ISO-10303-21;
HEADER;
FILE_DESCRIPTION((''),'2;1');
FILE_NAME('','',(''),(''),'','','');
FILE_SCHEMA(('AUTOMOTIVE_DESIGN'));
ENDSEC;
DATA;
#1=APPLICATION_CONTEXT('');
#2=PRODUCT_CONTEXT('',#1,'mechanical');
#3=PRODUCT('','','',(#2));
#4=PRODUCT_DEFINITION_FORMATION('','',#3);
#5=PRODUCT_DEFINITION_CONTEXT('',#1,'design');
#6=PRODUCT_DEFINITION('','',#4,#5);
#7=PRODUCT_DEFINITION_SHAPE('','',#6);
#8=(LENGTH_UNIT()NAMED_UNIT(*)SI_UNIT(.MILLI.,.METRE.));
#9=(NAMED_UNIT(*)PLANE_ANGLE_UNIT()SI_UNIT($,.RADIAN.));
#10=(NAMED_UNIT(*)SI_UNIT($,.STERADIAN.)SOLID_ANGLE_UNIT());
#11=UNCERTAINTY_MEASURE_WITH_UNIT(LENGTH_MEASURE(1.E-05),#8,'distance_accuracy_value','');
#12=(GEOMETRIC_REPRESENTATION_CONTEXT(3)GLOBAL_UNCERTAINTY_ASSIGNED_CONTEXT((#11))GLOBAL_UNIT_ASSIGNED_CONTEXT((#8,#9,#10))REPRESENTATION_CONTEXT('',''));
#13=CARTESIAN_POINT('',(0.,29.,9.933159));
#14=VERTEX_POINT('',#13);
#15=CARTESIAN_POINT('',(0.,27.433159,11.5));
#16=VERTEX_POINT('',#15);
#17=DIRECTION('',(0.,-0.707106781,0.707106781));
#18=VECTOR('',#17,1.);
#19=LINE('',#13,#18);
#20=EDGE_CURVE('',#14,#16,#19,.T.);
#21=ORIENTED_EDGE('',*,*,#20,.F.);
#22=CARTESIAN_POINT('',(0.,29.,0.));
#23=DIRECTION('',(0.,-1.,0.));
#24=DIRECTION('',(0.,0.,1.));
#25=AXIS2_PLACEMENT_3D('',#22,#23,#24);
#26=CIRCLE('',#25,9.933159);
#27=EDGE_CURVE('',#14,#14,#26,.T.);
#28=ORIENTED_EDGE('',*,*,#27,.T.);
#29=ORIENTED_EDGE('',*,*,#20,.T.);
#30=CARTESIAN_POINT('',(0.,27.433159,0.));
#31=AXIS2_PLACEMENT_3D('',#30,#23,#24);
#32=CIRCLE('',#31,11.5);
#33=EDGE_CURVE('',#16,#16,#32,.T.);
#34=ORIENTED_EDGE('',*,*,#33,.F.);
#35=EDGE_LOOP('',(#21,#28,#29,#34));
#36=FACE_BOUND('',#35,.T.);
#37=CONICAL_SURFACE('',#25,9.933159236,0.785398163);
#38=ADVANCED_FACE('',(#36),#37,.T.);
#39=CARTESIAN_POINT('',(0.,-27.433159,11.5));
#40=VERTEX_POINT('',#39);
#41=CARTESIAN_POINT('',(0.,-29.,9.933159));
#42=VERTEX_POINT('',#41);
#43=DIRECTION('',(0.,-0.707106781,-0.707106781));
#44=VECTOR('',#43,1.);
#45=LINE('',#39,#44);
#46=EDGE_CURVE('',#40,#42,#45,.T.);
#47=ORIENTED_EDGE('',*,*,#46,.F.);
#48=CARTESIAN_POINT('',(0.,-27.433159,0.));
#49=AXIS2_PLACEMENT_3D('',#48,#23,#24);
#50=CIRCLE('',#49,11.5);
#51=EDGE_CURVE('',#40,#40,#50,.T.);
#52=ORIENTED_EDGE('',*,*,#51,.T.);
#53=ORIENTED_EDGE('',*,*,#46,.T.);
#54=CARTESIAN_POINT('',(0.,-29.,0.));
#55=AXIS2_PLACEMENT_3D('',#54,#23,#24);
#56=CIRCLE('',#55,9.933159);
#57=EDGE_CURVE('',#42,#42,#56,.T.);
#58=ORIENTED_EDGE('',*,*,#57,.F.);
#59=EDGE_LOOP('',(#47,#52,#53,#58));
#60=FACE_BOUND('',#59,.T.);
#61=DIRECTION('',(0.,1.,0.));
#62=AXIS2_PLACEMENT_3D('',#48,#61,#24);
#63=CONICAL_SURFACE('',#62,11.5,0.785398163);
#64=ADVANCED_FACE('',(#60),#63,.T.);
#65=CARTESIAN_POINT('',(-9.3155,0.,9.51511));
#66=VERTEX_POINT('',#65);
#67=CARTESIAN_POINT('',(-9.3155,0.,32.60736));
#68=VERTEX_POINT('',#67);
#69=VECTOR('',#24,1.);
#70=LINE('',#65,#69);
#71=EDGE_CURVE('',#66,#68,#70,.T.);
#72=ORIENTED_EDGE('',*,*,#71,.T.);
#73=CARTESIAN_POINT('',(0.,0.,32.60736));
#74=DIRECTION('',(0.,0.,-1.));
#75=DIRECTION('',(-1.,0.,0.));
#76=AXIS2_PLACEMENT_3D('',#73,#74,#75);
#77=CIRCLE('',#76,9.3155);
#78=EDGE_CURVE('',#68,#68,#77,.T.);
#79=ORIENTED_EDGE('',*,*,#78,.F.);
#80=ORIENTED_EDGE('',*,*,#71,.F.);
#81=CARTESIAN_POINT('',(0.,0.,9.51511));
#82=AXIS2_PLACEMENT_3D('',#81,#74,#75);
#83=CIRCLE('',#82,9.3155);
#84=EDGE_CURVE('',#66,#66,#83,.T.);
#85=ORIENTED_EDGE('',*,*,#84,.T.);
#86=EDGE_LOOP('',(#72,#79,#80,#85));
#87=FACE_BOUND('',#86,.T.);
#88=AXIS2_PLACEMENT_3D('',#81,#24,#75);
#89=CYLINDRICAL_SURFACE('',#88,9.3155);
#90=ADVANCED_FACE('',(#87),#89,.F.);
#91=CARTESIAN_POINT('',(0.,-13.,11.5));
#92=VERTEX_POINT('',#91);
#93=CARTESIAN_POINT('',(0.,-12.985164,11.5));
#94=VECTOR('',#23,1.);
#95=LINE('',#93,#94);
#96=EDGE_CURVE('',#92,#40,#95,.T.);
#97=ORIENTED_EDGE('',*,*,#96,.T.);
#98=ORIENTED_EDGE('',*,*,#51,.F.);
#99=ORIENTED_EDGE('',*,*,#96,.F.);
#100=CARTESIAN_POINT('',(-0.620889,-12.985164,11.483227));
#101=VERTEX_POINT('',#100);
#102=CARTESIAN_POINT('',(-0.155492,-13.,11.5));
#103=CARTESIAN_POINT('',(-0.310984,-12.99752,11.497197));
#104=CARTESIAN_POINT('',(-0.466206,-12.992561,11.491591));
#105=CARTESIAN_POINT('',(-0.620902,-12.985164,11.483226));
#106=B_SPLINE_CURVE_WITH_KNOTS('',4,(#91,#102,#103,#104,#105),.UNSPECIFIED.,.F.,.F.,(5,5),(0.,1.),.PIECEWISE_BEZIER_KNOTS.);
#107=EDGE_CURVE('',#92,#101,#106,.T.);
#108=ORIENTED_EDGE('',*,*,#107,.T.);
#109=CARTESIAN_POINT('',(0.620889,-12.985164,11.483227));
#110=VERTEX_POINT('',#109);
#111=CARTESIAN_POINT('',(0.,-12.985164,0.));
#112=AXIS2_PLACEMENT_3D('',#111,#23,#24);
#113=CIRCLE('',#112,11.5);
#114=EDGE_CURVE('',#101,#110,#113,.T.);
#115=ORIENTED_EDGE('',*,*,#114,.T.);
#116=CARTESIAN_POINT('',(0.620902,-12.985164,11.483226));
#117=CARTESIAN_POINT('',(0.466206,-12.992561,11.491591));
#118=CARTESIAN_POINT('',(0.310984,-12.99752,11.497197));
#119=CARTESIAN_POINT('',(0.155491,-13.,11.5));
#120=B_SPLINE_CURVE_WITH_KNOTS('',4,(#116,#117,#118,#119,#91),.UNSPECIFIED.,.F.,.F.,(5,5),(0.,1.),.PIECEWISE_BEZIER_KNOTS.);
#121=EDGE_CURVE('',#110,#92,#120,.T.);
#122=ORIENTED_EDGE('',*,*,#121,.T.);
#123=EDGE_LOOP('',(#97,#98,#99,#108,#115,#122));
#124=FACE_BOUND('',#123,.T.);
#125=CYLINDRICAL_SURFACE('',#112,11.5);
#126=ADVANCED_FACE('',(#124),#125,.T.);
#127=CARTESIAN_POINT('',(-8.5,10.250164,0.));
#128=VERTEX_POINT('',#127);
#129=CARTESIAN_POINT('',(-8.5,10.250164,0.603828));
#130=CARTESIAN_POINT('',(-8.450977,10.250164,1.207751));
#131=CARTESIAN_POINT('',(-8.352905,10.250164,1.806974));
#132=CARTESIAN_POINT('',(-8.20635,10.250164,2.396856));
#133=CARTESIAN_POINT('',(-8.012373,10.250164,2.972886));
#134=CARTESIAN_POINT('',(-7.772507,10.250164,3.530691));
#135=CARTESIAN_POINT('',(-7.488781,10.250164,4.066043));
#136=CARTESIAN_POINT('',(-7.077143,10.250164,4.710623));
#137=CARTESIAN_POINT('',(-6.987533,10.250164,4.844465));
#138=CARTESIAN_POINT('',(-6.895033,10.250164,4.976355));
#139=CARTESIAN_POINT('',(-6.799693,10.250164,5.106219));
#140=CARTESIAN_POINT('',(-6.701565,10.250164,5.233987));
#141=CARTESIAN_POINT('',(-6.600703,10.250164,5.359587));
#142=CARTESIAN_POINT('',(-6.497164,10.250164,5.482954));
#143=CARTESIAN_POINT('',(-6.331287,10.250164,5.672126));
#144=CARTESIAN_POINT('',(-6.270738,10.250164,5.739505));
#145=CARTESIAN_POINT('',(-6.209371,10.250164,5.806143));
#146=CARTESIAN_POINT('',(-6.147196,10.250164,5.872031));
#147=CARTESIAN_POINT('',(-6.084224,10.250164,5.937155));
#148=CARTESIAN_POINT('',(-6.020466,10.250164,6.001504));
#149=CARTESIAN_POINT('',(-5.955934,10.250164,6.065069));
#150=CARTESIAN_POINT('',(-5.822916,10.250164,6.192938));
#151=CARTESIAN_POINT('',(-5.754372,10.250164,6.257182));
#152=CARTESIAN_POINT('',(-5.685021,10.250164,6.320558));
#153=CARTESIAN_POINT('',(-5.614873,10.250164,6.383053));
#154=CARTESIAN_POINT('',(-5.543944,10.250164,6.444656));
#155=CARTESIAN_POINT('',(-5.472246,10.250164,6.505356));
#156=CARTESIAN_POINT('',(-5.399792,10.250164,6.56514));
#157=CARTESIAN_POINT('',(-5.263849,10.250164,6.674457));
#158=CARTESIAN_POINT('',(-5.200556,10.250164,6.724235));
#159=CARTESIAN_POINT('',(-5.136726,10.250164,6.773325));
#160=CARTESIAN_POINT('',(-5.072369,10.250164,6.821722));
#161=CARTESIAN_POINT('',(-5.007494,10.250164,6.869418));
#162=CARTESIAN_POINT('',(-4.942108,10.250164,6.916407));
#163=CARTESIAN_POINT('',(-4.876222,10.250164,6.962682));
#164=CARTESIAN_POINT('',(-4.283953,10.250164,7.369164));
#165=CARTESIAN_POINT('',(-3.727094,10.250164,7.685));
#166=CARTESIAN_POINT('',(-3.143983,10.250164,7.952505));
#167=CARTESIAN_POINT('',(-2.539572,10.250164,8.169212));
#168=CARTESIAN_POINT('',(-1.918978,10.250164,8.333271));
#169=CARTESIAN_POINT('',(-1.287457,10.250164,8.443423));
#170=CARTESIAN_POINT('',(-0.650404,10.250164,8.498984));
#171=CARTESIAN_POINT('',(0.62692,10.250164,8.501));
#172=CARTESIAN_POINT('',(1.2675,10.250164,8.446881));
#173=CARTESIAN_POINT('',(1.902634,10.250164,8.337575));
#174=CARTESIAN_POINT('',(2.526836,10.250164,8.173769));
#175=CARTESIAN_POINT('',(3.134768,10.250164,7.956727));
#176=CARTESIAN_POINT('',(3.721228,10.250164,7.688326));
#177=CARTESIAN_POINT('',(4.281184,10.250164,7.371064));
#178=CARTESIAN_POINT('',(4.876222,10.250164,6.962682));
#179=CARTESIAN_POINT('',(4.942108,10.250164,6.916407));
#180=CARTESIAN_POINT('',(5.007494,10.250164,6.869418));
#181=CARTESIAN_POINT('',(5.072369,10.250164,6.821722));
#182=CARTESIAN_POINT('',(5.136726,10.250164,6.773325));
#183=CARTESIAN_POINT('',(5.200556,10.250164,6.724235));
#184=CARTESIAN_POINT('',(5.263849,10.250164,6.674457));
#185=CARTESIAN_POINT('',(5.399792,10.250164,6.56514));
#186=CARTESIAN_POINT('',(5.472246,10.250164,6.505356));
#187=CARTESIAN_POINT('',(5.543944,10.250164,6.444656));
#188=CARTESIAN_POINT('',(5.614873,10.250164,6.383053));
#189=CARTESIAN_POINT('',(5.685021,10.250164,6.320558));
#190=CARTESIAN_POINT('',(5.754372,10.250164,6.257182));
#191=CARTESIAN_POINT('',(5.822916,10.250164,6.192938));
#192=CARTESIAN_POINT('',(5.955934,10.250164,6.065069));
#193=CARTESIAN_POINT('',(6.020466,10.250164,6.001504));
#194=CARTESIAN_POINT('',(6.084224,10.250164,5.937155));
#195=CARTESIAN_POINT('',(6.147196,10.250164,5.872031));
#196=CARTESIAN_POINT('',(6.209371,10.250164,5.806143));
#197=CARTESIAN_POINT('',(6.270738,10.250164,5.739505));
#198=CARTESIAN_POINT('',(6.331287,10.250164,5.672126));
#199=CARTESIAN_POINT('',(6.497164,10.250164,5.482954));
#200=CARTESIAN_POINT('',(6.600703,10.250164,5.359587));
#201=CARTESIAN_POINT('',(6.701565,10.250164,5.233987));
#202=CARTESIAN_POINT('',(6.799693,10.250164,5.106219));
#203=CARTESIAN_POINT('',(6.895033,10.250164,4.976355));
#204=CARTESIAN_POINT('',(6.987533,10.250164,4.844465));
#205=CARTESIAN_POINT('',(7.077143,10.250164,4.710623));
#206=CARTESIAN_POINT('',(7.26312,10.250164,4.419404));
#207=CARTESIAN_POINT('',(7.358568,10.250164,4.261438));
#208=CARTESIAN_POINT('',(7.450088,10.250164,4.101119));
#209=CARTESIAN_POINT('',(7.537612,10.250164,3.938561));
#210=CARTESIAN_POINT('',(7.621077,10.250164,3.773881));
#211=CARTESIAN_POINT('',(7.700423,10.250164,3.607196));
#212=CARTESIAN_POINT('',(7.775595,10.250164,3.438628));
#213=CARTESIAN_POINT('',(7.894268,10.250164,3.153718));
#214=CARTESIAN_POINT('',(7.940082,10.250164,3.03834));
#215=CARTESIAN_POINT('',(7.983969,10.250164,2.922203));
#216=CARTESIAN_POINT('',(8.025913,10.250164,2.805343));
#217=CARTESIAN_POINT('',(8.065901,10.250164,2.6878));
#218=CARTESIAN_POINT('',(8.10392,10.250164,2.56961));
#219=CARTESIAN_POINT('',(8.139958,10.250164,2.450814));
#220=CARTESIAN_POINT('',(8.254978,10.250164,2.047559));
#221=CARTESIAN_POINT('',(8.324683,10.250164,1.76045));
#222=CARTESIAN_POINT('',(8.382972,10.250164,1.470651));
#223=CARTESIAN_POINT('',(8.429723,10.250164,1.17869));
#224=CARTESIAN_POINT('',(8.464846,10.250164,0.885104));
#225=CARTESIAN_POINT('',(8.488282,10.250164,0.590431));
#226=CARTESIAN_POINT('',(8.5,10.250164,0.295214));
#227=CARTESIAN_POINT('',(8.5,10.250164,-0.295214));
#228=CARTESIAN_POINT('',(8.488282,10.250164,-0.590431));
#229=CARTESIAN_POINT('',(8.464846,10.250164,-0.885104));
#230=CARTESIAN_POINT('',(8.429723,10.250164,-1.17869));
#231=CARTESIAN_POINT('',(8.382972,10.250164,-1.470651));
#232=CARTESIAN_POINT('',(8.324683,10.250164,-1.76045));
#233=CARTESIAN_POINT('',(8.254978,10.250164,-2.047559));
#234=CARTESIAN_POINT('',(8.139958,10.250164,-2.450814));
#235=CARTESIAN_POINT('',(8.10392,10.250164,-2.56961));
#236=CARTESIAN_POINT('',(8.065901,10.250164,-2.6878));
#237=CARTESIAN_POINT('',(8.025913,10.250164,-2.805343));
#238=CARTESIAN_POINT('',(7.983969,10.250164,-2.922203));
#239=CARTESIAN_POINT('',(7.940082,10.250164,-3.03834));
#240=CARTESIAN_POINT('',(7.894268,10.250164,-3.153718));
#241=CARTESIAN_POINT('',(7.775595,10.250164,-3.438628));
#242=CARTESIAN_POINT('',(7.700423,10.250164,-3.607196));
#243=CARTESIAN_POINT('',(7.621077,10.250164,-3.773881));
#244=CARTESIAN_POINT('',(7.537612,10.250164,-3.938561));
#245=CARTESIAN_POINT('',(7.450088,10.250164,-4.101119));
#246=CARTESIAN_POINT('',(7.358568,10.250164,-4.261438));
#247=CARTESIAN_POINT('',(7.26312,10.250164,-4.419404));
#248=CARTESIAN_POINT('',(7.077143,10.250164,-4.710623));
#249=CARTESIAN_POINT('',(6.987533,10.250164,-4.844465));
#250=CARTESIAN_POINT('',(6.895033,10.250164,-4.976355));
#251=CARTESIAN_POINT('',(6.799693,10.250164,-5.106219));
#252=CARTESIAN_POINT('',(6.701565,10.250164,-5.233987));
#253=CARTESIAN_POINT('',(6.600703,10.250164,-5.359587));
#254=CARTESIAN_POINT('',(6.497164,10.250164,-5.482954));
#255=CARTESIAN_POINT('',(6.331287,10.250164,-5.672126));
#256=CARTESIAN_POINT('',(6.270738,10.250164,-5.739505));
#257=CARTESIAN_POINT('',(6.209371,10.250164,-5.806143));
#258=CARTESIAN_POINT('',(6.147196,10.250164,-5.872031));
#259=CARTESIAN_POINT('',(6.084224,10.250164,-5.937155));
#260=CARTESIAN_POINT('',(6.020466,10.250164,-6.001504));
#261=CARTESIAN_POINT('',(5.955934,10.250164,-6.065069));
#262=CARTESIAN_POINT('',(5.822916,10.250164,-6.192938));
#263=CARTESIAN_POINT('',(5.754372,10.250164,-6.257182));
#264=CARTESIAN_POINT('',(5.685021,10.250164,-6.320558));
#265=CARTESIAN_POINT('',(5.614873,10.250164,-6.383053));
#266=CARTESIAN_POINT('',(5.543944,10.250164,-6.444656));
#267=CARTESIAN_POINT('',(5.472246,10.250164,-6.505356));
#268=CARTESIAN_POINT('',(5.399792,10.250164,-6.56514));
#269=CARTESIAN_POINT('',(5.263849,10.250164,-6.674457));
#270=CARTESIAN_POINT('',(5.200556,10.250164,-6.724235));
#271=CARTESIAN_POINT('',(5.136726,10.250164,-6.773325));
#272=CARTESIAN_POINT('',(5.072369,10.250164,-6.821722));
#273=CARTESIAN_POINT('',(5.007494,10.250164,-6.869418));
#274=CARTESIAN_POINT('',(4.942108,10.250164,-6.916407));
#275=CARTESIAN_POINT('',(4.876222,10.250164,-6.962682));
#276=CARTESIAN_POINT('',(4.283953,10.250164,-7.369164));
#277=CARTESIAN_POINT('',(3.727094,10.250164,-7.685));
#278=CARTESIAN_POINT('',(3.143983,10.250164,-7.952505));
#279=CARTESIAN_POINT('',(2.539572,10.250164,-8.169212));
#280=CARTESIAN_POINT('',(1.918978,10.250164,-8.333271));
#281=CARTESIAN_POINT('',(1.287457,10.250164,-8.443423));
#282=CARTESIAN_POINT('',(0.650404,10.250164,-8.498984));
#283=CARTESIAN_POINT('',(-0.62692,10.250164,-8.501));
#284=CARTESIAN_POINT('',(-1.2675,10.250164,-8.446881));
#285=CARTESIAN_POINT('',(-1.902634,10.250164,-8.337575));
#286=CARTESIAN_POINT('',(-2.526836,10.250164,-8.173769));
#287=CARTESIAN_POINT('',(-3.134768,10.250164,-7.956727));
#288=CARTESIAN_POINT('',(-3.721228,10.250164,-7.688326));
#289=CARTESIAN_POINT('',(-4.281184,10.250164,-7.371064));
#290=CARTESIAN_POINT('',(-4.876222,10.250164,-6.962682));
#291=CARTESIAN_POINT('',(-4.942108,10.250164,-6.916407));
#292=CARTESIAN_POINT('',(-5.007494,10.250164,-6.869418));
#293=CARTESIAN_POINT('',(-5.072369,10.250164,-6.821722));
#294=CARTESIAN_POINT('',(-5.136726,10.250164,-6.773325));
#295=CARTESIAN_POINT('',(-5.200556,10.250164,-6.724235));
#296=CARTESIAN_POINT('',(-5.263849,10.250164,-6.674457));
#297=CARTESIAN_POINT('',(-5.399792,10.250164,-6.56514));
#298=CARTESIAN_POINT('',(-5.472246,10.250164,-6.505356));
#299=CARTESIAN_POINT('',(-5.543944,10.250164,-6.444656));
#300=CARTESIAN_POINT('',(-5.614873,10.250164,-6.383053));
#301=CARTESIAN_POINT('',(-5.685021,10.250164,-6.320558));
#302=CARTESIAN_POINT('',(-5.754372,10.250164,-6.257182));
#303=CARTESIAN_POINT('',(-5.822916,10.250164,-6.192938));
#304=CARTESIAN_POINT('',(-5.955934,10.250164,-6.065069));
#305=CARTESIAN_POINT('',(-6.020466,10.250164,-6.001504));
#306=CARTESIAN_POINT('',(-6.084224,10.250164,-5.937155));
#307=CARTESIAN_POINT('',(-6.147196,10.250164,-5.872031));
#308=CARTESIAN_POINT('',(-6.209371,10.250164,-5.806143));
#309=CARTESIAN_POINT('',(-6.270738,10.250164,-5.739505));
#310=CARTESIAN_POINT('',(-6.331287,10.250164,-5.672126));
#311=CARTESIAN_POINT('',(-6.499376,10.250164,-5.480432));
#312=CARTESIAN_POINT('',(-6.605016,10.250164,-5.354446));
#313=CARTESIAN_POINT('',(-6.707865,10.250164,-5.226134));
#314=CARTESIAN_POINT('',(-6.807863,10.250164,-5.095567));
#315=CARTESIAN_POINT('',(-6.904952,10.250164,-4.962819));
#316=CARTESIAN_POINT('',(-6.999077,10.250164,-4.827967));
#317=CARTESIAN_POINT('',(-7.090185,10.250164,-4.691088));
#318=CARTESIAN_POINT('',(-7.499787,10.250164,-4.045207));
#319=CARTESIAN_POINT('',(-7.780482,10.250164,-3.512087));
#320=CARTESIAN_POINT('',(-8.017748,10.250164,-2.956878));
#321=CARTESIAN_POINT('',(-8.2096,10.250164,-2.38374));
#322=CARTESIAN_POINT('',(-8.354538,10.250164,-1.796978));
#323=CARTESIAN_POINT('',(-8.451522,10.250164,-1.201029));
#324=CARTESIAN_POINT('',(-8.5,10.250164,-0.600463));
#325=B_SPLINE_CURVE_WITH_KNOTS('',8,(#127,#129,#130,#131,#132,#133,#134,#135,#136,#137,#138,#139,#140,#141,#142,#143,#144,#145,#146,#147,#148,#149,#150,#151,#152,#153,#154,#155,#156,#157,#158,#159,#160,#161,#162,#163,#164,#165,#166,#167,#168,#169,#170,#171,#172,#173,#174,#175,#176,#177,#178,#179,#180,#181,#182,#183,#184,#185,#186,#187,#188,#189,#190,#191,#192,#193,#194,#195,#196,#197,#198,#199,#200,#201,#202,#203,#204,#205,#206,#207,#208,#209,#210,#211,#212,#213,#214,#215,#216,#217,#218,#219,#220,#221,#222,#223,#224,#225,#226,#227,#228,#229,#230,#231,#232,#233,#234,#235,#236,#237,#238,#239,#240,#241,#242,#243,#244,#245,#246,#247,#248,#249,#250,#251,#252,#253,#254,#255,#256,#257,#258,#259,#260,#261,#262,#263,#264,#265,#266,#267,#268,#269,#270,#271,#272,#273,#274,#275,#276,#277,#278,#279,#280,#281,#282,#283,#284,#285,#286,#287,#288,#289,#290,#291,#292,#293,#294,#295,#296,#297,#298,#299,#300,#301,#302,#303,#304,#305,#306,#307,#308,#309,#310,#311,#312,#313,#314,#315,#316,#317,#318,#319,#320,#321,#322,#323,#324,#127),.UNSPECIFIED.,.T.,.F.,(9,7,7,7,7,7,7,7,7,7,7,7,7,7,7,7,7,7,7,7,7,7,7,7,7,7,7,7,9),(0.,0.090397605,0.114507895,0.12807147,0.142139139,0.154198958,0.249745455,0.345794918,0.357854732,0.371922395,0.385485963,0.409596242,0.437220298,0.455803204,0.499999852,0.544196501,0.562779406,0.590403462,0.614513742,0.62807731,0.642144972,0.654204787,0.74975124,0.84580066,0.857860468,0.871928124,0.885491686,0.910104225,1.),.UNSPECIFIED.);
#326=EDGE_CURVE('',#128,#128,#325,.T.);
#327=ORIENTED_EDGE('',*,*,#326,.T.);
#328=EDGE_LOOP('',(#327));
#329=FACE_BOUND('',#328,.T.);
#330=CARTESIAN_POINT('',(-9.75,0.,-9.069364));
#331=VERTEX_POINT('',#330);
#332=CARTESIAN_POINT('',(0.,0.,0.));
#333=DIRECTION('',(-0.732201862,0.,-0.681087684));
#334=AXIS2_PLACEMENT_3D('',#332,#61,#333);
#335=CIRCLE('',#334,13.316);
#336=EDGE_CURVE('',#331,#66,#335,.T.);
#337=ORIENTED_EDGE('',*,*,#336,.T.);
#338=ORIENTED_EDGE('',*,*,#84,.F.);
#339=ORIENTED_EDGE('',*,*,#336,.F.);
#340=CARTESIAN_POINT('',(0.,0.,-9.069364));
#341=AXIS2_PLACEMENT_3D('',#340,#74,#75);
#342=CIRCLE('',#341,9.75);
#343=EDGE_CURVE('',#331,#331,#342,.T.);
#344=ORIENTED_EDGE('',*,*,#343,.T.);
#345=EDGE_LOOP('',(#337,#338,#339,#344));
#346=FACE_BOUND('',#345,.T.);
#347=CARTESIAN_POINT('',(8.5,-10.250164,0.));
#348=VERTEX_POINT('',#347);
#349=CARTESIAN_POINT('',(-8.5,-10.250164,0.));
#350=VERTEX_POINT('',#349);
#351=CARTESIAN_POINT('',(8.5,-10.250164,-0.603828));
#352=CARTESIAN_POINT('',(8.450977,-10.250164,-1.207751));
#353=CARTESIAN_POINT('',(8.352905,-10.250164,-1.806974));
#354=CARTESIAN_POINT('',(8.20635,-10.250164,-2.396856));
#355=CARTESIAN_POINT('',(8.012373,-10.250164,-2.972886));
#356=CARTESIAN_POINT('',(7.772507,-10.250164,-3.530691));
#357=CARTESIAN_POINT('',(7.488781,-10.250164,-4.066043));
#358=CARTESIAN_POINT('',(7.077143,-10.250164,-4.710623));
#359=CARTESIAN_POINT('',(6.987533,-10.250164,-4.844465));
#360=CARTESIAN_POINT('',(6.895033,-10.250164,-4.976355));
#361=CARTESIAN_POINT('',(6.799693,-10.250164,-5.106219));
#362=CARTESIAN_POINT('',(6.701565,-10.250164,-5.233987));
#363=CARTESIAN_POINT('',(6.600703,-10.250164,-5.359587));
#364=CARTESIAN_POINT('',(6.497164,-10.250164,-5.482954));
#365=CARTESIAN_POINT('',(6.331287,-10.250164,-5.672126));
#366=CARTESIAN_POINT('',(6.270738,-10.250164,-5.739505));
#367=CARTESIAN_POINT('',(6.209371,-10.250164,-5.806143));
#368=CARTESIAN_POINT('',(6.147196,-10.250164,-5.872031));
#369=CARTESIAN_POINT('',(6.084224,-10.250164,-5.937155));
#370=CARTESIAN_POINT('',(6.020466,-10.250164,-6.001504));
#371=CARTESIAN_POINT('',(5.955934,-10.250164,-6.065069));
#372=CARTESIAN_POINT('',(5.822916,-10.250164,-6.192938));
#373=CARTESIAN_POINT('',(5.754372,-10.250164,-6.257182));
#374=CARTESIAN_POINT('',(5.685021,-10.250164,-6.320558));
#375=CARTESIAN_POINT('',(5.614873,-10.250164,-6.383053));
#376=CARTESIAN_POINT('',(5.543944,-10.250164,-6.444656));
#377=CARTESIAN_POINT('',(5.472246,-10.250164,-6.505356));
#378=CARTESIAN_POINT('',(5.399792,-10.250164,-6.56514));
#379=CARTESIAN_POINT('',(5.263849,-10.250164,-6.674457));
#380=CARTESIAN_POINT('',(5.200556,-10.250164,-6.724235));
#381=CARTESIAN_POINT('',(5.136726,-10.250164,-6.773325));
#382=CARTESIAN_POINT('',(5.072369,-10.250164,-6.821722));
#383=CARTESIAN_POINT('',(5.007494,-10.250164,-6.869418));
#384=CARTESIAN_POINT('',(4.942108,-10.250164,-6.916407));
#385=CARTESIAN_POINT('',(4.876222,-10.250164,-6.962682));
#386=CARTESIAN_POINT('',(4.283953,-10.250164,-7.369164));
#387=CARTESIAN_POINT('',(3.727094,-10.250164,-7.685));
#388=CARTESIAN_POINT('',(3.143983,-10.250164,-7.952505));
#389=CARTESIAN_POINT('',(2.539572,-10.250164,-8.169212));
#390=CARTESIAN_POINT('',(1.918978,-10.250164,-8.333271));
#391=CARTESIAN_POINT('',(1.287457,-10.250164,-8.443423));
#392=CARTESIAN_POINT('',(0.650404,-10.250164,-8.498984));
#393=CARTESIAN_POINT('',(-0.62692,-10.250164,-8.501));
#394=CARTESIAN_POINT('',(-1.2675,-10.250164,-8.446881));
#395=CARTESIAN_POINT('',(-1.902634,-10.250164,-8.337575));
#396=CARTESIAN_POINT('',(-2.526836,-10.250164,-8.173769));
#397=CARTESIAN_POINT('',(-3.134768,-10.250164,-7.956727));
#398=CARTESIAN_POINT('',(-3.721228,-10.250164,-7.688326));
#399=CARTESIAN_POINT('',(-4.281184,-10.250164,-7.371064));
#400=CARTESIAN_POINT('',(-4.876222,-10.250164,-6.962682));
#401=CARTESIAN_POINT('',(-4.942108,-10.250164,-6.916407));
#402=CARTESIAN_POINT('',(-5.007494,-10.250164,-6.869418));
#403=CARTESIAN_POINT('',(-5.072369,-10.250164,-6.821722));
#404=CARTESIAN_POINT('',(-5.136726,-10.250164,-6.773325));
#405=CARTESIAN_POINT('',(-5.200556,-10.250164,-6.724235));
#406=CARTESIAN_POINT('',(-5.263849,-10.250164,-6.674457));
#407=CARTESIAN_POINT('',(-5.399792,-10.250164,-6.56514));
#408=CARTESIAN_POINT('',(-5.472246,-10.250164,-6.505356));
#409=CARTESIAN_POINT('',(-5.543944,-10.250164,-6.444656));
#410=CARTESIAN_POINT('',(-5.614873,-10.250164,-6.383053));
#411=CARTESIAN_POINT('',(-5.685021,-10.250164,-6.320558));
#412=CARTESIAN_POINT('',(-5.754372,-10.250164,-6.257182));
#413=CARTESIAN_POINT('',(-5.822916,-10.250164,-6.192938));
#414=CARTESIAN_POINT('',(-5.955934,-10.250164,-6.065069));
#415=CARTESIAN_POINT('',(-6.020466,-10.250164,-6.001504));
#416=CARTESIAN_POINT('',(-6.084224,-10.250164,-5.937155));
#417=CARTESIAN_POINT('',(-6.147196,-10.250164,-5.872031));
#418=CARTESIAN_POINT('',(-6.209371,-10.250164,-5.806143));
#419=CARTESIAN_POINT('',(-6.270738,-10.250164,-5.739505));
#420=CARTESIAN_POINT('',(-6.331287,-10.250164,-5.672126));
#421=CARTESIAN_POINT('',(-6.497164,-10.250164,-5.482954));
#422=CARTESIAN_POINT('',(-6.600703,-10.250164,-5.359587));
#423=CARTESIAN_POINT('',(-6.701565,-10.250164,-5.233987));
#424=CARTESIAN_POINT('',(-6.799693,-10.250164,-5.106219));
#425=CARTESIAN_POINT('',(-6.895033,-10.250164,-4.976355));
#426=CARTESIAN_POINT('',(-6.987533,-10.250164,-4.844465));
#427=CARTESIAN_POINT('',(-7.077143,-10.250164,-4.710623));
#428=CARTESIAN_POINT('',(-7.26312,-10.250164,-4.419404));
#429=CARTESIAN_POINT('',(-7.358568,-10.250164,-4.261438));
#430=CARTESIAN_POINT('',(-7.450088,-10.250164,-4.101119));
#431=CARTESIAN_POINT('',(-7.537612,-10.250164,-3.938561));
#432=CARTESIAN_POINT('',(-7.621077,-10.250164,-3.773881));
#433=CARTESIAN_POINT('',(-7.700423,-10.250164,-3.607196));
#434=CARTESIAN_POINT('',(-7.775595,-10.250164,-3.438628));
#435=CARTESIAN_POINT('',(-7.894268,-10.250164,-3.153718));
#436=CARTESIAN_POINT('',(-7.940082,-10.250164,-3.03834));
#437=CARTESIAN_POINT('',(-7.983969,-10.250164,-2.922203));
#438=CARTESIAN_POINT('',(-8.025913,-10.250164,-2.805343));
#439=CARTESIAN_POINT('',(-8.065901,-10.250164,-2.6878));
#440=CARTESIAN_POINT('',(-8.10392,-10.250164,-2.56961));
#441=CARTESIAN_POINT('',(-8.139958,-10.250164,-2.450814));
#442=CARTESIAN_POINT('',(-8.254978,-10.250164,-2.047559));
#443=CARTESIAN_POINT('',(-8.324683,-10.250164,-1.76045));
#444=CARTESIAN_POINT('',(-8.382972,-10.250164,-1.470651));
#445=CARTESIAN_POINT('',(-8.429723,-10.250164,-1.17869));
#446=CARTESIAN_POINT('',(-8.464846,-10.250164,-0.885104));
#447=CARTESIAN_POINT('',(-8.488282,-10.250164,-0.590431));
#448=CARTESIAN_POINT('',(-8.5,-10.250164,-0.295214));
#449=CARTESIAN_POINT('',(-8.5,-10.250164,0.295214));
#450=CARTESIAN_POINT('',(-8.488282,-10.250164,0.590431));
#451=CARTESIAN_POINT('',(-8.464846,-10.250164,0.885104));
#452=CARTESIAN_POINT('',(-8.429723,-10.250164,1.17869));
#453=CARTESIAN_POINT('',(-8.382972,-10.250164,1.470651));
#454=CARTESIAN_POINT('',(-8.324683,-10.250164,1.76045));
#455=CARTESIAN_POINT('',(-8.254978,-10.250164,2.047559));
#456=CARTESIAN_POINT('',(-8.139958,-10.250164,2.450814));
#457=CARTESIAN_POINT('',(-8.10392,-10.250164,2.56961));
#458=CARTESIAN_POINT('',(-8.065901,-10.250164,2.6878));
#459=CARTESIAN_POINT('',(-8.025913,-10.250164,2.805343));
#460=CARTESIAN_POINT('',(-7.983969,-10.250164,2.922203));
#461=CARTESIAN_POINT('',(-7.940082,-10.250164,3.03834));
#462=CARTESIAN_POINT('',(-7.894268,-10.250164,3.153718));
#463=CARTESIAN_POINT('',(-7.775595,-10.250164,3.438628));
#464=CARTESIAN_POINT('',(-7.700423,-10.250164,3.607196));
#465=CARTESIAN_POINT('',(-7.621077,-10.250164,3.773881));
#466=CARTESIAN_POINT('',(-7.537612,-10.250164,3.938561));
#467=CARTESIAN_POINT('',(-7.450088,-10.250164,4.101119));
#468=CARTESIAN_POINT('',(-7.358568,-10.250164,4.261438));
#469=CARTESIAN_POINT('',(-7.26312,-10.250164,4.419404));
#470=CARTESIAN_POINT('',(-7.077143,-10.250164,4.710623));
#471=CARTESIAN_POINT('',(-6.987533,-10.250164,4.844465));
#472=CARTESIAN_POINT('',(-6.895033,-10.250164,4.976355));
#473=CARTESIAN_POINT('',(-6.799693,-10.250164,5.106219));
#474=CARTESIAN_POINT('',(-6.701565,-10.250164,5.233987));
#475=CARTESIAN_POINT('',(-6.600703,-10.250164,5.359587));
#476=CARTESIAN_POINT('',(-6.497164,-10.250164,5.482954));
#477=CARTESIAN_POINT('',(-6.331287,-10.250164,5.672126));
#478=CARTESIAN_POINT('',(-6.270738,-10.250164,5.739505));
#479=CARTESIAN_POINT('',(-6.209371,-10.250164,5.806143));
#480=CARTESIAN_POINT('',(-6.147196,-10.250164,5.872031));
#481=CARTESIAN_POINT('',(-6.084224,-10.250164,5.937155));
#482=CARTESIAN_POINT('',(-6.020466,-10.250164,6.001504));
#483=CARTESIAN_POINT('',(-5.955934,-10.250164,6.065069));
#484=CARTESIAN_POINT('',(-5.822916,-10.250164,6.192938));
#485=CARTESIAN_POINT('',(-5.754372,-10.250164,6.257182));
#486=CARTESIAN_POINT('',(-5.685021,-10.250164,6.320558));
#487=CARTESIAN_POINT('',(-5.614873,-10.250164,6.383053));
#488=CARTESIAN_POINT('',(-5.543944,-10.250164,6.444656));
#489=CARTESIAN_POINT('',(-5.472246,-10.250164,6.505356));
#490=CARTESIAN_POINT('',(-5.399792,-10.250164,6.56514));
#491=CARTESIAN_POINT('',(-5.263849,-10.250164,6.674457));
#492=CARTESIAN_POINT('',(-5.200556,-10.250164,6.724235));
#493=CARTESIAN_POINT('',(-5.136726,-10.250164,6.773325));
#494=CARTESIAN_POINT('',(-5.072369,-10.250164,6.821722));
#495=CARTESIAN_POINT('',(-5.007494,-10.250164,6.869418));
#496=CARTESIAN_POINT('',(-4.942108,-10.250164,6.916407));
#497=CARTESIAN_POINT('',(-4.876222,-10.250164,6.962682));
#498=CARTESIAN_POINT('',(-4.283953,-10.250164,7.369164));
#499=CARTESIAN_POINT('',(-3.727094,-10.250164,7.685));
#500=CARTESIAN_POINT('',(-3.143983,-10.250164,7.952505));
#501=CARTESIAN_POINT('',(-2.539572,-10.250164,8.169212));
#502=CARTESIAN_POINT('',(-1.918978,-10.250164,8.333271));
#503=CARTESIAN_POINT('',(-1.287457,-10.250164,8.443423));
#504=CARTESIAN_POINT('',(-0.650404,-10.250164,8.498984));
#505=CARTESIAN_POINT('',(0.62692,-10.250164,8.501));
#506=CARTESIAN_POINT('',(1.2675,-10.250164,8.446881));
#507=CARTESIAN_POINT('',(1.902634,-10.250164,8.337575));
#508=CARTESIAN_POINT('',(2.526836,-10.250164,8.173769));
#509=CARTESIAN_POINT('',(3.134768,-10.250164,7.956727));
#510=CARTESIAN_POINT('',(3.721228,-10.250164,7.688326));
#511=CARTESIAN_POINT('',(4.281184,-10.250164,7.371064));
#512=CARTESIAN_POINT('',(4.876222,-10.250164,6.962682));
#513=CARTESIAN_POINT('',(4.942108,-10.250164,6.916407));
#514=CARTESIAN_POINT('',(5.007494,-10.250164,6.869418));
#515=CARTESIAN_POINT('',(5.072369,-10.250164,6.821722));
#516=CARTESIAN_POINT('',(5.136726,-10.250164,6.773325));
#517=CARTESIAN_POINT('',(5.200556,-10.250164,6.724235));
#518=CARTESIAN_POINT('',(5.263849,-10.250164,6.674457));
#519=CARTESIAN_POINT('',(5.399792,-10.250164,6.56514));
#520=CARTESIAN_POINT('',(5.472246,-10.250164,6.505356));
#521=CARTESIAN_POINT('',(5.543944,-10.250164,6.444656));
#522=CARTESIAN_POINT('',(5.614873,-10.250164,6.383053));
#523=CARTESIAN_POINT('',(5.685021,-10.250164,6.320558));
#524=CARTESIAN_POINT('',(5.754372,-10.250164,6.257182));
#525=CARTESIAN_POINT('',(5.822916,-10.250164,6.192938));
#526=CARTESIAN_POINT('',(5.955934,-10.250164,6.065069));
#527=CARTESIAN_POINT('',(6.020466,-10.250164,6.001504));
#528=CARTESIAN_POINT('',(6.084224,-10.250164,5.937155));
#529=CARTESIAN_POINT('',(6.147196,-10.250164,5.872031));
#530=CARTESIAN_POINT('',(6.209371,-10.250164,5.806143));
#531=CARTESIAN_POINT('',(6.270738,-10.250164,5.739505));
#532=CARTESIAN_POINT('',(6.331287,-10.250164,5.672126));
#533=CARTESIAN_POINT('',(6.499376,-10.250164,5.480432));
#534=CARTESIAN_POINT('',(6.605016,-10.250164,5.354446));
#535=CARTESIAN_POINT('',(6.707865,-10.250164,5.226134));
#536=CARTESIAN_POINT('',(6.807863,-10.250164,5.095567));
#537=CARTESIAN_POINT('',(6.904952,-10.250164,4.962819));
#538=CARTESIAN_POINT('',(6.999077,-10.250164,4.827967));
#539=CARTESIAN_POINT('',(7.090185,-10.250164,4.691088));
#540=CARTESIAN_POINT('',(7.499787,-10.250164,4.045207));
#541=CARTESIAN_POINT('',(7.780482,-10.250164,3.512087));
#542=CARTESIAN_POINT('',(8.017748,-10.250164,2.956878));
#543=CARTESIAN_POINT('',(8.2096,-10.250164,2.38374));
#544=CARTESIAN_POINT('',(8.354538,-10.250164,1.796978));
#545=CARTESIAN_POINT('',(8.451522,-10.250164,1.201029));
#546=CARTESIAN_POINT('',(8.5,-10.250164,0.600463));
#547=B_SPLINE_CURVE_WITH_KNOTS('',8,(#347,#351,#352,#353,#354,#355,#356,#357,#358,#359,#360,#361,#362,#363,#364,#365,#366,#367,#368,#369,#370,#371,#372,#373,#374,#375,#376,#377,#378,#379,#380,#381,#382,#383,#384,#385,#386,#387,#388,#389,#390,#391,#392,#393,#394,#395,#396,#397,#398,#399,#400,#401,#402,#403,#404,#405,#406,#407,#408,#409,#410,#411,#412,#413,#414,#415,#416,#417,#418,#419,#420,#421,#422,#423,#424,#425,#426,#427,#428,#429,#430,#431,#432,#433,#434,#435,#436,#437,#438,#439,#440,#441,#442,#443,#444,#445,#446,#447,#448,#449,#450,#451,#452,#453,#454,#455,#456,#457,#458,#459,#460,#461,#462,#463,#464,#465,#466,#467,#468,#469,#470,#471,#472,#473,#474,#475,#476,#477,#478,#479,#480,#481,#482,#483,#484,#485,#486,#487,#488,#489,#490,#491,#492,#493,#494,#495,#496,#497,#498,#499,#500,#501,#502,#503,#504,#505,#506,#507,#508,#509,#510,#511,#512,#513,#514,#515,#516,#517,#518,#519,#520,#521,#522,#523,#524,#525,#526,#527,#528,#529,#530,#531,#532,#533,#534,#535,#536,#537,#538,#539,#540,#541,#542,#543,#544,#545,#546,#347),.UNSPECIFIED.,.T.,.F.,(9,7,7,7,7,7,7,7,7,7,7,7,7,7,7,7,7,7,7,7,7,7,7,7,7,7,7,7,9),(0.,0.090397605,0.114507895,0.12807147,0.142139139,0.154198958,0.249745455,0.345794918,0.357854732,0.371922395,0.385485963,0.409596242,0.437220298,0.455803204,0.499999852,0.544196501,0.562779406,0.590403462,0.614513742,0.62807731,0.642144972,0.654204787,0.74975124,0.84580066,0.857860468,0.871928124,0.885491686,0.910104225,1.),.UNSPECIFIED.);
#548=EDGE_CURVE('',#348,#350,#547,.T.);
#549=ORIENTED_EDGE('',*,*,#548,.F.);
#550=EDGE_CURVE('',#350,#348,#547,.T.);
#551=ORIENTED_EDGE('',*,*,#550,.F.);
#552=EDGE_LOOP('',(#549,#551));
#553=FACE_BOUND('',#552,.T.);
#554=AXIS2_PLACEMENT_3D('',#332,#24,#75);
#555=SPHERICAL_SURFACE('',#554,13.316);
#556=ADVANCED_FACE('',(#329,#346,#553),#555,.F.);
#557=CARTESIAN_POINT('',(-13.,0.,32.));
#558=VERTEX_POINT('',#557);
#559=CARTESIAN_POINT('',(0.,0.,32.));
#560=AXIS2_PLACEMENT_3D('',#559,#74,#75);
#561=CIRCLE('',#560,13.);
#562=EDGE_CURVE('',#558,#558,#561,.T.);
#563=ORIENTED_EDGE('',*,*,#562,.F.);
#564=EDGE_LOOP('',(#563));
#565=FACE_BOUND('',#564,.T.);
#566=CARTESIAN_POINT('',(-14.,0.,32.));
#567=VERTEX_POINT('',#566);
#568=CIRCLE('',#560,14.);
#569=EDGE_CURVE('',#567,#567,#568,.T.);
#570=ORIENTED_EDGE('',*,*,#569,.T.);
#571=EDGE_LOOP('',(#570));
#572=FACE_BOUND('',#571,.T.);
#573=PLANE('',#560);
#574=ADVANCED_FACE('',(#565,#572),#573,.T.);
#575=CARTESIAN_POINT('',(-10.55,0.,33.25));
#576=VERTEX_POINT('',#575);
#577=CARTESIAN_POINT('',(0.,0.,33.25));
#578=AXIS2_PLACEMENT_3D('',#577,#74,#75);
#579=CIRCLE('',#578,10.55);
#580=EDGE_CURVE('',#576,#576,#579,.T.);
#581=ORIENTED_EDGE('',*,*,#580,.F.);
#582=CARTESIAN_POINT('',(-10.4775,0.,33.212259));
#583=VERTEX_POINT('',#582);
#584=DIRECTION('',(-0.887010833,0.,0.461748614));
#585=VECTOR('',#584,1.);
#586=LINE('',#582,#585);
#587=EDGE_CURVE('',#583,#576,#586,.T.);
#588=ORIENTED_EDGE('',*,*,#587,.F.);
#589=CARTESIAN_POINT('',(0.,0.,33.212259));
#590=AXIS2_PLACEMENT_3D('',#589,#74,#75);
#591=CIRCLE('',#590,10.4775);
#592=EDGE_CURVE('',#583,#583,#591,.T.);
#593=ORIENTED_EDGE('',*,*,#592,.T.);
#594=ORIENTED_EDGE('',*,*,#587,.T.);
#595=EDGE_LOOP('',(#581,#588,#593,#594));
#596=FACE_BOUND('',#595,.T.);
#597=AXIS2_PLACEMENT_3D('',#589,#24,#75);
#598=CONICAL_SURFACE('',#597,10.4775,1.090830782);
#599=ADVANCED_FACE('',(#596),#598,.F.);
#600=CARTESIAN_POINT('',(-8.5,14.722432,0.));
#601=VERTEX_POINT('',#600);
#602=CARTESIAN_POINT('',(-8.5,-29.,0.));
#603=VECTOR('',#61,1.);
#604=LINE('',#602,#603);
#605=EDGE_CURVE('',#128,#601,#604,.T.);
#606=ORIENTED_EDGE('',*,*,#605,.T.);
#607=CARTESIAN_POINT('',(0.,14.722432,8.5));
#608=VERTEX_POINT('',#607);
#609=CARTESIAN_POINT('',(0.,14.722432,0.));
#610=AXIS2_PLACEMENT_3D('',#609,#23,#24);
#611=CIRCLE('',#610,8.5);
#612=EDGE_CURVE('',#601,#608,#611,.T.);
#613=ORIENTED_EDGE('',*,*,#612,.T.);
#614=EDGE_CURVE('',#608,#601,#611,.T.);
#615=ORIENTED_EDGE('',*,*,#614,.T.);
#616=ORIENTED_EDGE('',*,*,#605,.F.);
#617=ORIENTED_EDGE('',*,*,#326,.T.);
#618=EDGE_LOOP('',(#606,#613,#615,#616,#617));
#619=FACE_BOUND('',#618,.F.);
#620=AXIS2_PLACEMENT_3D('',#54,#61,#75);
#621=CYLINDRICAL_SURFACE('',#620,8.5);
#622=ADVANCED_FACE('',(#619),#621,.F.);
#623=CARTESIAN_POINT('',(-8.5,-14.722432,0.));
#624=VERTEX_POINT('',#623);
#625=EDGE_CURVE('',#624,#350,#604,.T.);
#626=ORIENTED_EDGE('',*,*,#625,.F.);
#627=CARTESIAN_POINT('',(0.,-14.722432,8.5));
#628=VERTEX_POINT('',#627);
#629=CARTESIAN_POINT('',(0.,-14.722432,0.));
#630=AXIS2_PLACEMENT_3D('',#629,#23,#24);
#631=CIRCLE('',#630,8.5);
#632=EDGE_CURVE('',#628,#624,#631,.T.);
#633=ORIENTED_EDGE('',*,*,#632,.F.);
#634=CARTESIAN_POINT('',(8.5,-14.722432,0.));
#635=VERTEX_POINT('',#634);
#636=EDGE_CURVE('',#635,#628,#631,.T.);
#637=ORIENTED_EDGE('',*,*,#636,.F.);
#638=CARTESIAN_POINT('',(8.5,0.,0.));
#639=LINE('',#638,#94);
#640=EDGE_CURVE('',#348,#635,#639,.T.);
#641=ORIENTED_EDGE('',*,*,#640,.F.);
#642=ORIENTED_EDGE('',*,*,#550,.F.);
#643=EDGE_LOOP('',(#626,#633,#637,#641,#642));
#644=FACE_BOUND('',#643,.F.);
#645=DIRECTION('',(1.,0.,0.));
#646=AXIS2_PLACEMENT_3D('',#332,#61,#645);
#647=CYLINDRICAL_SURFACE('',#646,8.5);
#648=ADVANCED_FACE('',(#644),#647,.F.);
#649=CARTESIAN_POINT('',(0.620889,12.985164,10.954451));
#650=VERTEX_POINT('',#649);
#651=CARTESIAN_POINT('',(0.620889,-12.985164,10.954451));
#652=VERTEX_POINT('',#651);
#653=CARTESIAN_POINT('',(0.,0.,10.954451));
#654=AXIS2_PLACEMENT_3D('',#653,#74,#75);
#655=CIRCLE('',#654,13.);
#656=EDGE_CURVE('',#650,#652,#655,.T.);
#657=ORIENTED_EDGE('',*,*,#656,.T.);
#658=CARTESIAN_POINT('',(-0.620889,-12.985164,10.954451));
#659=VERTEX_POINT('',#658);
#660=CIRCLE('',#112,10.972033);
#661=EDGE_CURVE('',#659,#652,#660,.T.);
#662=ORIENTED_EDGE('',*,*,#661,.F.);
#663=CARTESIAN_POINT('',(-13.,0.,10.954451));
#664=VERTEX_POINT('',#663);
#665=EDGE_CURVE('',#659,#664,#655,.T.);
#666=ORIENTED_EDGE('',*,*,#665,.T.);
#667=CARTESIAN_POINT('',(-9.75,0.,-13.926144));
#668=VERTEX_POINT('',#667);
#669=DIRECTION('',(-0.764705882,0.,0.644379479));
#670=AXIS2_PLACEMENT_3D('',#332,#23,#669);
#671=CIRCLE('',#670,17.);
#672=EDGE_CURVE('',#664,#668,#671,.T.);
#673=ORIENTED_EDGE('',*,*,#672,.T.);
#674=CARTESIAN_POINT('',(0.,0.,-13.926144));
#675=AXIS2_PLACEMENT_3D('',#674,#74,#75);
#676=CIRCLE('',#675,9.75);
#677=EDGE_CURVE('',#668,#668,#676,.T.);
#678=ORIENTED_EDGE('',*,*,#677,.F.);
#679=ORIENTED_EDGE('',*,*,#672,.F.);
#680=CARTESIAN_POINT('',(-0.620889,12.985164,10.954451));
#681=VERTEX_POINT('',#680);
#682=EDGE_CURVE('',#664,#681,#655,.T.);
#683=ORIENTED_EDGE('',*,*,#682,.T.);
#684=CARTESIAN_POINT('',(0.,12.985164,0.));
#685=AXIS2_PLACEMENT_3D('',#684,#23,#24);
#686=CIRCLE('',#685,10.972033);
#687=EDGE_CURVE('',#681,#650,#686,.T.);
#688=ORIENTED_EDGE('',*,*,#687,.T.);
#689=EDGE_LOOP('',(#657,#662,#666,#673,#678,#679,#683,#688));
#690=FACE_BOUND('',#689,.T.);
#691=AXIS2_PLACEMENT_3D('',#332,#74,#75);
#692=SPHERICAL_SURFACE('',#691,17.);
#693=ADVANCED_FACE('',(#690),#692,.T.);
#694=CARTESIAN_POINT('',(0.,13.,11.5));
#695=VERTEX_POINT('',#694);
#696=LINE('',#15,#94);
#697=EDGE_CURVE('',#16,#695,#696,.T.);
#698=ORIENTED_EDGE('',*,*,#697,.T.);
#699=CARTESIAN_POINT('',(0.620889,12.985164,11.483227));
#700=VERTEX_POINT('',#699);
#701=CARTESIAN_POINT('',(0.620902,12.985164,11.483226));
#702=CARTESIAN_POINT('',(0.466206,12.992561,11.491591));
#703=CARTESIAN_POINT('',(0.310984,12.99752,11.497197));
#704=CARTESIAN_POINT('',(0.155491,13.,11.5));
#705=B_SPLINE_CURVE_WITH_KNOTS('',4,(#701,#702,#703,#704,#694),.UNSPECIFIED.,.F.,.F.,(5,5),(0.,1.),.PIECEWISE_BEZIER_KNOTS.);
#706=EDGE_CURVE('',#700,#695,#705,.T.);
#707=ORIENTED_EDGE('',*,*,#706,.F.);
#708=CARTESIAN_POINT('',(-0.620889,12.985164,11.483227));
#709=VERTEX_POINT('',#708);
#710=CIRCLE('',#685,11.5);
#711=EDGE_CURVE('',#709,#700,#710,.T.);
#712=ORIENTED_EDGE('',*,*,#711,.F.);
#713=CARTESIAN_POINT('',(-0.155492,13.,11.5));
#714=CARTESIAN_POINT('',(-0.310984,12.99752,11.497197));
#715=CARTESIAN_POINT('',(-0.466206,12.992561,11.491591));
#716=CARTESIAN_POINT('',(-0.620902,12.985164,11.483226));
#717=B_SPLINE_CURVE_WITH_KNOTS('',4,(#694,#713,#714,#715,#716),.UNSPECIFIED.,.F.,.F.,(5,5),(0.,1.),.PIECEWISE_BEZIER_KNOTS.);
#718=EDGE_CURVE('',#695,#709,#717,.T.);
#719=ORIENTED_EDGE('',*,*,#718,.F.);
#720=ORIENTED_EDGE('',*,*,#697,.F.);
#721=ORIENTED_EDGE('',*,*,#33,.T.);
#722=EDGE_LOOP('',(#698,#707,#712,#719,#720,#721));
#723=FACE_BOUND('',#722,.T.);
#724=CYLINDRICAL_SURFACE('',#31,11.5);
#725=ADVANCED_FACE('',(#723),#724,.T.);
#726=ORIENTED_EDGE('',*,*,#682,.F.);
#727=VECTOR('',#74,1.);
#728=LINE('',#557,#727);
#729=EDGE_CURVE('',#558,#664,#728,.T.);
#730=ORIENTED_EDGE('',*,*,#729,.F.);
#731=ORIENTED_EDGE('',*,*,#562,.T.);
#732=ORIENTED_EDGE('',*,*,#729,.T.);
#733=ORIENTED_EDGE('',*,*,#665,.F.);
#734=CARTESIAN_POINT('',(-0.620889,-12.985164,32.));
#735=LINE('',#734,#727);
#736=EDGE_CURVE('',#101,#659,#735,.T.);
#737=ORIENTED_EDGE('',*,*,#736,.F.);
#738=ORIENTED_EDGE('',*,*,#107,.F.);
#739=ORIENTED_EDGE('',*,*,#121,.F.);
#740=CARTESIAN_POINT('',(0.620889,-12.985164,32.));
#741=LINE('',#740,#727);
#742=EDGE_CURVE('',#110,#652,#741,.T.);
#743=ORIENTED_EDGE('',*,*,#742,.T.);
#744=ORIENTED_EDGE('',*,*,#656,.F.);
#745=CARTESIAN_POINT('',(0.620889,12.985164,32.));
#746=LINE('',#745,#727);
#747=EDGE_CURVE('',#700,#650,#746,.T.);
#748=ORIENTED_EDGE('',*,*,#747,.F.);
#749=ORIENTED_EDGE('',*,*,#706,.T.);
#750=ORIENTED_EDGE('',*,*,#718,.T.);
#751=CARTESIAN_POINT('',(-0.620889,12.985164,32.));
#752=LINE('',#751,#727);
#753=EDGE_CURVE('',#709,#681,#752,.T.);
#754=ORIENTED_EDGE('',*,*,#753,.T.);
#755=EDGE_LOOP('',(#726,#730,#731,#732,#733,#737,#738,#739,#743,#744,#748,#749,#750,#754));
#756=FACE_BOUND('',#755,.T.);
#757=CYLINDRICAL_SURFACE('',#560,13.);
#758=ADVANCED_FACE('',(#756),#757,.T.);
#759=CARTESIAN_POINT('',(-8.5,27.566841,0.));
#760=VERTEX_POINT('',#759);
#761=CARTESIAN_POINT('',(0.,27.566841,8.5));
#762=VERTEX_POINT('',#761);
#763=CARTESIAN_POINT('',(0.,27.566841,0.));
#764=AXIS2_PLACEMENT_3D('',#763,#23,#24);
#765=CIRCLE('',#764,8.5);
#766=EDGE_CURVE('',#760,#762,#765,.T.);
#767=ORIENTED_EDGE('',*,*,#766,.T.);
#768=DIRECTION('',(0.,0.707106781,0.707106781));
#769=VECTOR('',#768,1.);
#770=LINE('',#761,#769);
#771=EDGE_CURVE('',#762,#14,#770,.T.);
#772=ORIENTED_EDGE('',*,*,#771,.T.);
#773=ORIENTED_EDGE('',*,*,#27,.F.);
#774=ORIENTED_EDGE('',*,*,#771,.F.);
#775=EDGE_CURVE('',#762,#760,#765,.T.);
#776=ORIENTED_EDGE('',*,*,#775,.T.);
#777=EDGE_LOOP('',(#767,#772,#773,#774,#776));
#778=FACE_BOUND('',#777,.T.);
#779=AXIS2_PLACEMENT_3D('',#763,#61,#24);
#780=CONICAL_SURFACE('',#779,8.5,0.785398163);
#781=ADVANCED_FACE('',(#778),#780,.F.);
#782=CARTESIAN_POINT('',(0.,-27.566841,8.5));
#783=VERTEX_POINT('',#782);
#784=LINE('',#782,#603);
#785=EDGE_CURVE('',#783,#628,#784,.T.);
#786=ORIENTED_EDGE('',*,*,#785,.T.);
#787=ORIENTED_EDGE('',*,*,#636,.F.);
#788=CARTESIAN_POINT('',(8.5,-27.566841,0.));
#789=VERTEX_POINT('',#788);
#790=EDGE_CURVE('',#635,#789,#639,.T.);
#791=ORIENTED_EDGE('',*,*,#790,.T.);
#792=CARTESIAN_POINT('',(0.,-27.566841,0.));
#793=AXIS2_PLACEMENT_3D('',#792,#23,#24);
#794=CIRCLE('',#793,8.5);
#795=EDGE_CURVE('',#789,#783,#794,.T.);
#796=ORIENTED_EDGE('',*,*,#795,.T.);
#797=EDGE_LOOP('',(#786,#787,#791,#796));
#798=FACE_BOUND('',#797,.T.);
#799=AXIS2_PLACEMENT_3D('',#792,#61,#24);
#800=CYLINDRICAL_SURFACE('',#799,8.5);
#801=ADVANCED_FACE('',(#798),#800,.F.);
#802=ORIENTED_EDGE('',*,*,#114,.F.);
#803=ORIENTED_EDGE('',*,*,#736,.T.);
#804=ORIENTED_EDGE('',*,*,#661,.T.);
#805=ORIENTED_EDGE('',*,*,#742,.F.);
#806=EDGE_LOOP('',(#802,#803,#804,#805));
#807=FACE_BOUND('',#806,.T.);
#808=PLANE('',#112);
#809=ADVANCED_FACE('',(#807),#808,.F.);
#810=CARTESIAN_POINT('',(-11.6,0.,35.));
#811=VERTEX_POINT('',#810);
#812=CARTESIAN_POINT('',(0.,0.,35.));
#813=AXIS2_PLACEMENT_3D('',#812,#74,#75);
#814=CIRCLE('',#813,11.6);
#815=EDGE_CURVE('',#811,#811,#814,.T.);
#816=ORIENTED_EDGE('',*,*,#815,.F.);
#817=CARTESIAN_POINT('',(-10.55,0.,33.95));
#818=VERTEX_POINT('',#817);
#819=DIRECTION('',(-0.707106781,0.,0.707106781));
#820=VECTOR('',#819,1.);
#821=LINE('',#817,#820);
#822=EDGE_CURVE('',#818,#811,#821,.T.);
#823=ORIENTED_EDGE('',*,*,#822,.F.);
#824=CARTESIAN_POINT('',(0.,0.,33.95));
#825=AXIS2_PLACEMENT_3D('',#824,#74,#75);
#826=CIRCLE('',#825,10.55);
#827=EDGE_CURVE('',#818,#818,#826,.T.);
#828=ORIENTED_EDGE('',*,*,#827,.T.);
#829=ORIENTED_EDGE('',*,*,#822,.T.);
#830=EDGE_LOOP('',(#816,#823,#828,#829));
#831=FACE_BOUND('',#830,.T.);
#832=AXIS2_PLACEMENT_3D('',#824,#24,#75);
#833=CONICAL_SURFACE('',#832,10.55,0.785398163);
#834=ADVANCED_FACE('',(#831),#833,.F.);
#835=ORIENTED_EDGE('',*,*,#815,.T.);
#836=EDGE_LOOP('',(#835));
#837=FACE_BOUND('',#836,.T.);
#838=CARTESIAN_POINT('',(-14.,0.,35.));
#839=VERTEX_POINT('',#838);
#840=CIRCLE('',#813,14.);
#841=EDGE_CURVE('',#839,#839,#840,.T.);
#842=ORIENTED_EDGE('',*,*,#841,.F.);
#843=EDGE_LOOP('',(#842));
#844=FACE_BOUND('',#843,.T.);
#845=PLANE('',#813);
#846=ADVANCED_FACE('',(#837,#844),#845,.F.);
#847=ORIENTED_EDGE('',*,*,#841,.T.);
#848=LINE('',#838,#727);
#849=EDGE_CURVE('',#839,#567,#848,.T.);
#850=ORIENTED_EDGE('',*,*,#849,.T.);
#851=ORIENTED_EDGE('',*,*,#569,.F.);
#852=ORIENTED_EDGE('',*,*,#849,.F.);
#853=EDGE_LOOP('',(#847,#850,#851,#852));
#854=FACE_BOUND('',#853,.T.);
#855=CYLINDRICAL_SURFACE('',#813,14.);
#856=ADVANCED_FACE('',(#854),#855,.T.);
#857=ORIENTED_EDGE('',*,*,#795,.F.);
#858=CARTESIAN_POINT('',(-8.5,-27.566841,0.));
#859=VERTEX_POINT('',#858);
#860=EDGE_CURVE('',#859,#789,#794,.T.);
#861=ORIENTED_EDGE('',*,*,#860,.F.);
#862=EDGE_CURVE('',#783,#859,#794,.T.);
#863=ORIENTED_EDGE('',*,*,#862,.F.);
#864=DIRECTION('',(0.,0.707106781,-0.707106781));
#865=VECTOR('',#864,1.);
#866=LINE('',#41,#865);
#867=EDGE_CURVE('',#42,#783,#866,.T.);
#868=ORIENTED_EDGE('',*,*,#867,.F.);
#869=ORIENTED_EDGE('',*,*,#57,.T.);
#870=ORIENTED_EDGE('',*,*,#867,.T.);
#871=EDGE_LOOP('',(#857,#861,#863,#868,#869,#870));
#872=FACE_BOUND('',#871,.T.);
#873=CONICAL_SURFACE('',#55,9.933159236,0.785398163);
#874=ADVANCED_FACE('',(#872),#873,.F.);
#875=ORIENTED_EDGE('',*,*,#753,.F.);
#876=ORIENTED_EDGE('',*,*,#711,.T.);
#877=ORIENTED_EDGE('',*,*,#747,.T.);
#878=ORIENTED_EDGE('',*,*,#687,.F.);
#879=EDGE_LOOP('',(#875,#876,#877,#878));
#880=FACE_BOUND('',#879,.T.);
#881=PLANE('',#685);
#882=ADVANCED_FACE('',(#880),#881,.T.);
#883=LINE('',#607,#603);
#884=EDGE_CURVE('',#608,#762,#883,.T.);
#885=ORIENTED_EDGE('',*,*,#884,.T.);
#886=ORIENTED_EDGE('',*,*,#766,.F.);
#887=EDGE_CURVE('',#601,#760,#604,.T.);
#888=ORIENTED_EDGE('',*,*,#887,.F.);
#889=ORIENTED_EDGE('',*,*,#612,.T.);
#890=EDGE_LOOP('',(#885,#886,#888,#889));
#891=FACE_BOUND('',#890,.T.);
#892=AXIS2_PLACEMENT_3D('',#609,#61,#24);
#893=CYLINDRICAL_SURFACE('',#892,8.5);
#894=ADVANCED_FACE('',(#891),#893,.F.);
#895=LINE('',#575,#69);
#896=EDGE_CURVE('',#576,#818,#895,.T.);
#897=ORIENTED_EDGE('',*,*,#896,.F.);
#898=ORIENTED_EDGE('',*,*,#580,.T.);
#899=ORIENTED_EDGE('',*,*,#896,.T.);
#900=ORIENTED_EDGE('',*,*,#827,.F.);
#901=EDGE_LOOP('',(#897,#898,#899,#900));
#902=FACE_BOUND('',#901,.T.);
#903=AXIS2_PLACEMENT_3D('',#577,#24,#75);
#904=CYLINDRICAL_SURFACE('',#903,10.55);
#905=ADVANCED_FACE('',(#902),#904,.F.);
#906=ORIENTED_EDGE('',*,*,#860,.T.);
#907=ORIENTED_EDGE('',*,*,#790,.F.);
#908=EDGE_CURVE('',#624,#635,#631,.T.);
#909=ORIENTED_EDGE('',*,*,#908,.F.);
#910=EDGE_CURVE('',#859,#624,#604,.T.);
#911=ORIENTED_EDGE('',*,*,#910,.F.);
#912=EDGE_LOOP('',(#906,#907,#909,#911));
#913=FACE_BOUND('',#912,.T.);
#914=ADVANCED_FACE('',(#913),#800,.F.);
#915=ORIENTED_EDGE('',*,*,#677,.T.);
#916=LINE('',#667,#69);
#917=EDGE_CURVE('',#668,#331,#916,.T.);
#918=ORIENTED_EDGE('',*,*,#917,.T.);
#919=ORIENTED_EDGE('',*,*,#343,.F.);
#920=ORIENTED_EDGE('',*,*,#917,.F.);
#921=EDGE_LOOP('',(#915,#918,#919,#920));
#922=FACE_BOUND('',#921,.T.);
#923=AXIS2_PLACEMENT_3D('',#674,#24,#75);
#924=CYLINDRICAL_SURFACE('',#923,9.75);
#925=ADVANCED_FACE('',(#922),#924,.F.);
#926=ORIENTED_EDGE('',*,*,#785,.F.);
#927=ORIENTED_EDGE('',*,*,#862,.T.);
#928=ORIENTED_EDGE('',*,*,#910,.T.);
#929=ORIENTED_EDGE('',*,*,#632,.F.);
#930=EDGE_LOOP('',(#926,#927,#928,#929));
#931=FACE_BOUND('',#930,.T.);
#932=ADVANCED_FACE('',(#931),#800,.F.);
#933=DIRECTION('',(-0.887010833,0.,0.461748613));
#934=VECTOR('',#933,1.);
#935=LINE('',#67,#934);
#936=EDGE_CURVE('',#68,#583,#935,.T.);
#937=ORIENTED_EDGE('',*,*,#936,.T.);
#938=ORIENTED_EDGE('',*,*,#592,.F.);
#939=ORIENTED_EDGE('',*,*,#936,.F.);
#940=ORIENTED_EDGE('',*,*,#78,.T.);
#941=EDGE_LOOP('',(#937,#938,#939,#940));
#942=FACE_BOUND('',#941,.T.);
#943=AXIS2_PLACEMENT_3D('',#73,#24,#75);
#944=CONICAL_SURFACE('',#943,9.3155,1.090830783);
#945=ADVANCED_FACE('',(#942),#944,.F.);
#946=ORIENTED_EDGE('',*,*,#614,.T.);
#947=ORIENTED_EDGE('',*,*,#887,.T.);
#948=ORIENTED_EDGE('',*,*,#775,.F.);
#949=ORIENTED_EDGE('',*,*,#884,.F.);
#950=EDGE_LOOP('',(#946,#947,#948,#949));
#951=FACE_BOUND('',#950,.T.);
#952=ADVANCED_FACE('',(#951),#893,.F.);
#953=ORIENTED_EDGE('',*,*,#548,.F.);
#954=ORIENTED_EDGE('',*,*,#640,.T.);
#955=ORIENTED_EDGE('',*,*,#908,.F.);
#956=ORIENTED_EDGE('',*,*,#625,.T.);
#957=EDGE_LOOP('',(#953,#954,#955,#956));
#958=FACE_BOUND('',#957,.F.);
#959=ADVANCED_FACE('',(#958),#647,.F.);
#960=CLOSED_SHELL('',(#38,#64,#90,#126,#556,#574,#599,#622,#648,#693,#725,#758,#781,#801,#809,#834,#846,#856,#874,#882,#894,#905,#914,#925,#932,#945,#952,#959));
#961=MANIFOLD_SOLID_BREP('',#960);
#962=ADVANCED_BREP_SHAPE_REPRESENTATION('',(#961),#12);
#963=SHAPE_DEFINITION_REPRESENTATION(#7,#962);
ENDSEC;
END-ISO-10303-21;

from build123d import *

# Parameters (mm, degrees)
F5_D     = 17
F5_DEPTH = 29
F5_TIP   = 5.1073152617
F6_D     = 17
F6_DEPTH = 29
F6_TIP   = 5.1073152617


with BuildPart() as f2:
    # F0 (on Front) → F2 (revolve)
    with BuildSketch(Plane.XZ):
        with BuildLine():
            Line((-9.3155, 9.5151098654), (-9.3155, 14.2204591962))
            ThreePointArc((-9.3155, 14.2204591962), (-11.2766168332, 12.7215530812), (-13, 10.9544511501))
            ThreePointArc((-13, 10.9544511501), (-16.8567978778, -2.2019003855), (-9.75, -13.9261444772))
            Line((-9.75, -13.9261444772), (-9.75, -9.069363594))
            ThreePointArc((-9.75, -9.069363594), (-13.3123621496, 0.311239453), (-9.3155, 9.5151098654))
        make_face()
        with BuildLine():
            ThreePointArc((-13, 10.9544511501), (-11.2766168332, 12.7215530812), (-9.3155, 14.2204591962))
            Line((-9.3155, 14.2204591962), (-9.3155, 19.2122588888))
            Line((-9.3155, 19.2122588888), (-10.4775, 19.2122588888))
            Line((-10.4775, 19.2122588888), (-10.4775, 33.2122588888))
            Line((-10.4775, 33.2122588888), (-10.55, 33.25))
            Line((-10.55, 33.25), (-10.55, 33.95))
            Line((-10.55, 33.95), (-11.6, 35))
            Line((-11.6, 35), (-14, 35))
            Line((-14, 35), (-14, 32))
            Line((-14, 32), (-13, 32))
            Line((-13, 32), (-13, 10.9544511501))
        make_face()
        Polygon((-10.4775, 19.2122588888), (-9.3155, 19.2122588888), (-9.3155, 32.6073599761), (-10.4775, 33.2122588888), align=None)
    revolve(axis=Axis((0, 0, 10.842), (0, 0, -1)))

    # F1 (on Right) → F3 (revolve)
    with BuildSketch(Plane.YZ):
        with BuildLine():
            Line((27.5668407641, 8.5), (29, 9.9331592359))
            Line((29, 9.9331592359), (27.4331592359, 11.5))
            Line((27.4331592359, 11.5), (12.9851644874, 11.5))
            Line((12.9851644874, 11.5), (12.9851644874, 10.9720327759))
            ThreePointArc((12.9851644874, 10.9720327759), (13.9088267086, 9.7746887209), (14.7224318643, 8.5))
            Line((14.7224318643, 8.5), (27.5668407641, 8.5))
        make_face()
    revolve(axis=Axis((0, 4.3193821889, 0), (0, -1, 0)))

    # F1 (on Right) → F4 (revolve)
    with BuildSketch(Plane.YZ):
        with BuildLine():
            Line((-27.5668407641, 8.5), (-14.7224318643, 8.5))
            ThreePointArc((-14.7224318643, 8.5), (-13.9088267086, 9.7746887209), (-12.9851644874, 10.9720327759))
            Line((-12.9851644874, 10.9720327759), (-12.9851644874, 11.5))
            Line((-12.9851644874, 11.5), (-27.4331592359, 11.5))
            Line((-27.4331592359, 11.5), (-29, 9.9331592359))
            Line((-29, 9.9331592359), (-27.5668407641, 8.5))
        make_face()
    revolve(axis=Axis((0, 4.3193821889, 0), (0, -1, 0)))

    # F5 (one way)
    with BuildSketch(Plane(origin=(0, 0, 0), x_dir=(1, 0, 0), z_dir=(0, 1, 0))):
        with Locations((0, 0)):
            Circle(F5_D / 2)
    extrude(amount=-F5_DEPTH, mode=Mode.SUBTRACT)
    with Locations(Plane(origin=(0, 0, 0), x_dir=(1, 0, 0), z_dir=(0, 1, 0))):
        with Locations((0, 0)):
            with Locations((0, 0, -(F5_DEPTH + F5_TIP / 2))):  # 118° drill point
                Cone(0, F5_D / 2, F5_TIP, mode=Mode.SUBTRACT)

    # F6
    with Locations(Plane.XZ):
        with Locations((0, 0)):
            Hole(F6_D / 2, depth=F6_DEPTH)
            with Locations((0, 0, -(F6_DEPTH + F6_TIP / 2))):  # 118° drill point
                Cone(0, F6_D / 2, F6_TIP, mode=Mode.SUBTRACT)


solid = f2.part
